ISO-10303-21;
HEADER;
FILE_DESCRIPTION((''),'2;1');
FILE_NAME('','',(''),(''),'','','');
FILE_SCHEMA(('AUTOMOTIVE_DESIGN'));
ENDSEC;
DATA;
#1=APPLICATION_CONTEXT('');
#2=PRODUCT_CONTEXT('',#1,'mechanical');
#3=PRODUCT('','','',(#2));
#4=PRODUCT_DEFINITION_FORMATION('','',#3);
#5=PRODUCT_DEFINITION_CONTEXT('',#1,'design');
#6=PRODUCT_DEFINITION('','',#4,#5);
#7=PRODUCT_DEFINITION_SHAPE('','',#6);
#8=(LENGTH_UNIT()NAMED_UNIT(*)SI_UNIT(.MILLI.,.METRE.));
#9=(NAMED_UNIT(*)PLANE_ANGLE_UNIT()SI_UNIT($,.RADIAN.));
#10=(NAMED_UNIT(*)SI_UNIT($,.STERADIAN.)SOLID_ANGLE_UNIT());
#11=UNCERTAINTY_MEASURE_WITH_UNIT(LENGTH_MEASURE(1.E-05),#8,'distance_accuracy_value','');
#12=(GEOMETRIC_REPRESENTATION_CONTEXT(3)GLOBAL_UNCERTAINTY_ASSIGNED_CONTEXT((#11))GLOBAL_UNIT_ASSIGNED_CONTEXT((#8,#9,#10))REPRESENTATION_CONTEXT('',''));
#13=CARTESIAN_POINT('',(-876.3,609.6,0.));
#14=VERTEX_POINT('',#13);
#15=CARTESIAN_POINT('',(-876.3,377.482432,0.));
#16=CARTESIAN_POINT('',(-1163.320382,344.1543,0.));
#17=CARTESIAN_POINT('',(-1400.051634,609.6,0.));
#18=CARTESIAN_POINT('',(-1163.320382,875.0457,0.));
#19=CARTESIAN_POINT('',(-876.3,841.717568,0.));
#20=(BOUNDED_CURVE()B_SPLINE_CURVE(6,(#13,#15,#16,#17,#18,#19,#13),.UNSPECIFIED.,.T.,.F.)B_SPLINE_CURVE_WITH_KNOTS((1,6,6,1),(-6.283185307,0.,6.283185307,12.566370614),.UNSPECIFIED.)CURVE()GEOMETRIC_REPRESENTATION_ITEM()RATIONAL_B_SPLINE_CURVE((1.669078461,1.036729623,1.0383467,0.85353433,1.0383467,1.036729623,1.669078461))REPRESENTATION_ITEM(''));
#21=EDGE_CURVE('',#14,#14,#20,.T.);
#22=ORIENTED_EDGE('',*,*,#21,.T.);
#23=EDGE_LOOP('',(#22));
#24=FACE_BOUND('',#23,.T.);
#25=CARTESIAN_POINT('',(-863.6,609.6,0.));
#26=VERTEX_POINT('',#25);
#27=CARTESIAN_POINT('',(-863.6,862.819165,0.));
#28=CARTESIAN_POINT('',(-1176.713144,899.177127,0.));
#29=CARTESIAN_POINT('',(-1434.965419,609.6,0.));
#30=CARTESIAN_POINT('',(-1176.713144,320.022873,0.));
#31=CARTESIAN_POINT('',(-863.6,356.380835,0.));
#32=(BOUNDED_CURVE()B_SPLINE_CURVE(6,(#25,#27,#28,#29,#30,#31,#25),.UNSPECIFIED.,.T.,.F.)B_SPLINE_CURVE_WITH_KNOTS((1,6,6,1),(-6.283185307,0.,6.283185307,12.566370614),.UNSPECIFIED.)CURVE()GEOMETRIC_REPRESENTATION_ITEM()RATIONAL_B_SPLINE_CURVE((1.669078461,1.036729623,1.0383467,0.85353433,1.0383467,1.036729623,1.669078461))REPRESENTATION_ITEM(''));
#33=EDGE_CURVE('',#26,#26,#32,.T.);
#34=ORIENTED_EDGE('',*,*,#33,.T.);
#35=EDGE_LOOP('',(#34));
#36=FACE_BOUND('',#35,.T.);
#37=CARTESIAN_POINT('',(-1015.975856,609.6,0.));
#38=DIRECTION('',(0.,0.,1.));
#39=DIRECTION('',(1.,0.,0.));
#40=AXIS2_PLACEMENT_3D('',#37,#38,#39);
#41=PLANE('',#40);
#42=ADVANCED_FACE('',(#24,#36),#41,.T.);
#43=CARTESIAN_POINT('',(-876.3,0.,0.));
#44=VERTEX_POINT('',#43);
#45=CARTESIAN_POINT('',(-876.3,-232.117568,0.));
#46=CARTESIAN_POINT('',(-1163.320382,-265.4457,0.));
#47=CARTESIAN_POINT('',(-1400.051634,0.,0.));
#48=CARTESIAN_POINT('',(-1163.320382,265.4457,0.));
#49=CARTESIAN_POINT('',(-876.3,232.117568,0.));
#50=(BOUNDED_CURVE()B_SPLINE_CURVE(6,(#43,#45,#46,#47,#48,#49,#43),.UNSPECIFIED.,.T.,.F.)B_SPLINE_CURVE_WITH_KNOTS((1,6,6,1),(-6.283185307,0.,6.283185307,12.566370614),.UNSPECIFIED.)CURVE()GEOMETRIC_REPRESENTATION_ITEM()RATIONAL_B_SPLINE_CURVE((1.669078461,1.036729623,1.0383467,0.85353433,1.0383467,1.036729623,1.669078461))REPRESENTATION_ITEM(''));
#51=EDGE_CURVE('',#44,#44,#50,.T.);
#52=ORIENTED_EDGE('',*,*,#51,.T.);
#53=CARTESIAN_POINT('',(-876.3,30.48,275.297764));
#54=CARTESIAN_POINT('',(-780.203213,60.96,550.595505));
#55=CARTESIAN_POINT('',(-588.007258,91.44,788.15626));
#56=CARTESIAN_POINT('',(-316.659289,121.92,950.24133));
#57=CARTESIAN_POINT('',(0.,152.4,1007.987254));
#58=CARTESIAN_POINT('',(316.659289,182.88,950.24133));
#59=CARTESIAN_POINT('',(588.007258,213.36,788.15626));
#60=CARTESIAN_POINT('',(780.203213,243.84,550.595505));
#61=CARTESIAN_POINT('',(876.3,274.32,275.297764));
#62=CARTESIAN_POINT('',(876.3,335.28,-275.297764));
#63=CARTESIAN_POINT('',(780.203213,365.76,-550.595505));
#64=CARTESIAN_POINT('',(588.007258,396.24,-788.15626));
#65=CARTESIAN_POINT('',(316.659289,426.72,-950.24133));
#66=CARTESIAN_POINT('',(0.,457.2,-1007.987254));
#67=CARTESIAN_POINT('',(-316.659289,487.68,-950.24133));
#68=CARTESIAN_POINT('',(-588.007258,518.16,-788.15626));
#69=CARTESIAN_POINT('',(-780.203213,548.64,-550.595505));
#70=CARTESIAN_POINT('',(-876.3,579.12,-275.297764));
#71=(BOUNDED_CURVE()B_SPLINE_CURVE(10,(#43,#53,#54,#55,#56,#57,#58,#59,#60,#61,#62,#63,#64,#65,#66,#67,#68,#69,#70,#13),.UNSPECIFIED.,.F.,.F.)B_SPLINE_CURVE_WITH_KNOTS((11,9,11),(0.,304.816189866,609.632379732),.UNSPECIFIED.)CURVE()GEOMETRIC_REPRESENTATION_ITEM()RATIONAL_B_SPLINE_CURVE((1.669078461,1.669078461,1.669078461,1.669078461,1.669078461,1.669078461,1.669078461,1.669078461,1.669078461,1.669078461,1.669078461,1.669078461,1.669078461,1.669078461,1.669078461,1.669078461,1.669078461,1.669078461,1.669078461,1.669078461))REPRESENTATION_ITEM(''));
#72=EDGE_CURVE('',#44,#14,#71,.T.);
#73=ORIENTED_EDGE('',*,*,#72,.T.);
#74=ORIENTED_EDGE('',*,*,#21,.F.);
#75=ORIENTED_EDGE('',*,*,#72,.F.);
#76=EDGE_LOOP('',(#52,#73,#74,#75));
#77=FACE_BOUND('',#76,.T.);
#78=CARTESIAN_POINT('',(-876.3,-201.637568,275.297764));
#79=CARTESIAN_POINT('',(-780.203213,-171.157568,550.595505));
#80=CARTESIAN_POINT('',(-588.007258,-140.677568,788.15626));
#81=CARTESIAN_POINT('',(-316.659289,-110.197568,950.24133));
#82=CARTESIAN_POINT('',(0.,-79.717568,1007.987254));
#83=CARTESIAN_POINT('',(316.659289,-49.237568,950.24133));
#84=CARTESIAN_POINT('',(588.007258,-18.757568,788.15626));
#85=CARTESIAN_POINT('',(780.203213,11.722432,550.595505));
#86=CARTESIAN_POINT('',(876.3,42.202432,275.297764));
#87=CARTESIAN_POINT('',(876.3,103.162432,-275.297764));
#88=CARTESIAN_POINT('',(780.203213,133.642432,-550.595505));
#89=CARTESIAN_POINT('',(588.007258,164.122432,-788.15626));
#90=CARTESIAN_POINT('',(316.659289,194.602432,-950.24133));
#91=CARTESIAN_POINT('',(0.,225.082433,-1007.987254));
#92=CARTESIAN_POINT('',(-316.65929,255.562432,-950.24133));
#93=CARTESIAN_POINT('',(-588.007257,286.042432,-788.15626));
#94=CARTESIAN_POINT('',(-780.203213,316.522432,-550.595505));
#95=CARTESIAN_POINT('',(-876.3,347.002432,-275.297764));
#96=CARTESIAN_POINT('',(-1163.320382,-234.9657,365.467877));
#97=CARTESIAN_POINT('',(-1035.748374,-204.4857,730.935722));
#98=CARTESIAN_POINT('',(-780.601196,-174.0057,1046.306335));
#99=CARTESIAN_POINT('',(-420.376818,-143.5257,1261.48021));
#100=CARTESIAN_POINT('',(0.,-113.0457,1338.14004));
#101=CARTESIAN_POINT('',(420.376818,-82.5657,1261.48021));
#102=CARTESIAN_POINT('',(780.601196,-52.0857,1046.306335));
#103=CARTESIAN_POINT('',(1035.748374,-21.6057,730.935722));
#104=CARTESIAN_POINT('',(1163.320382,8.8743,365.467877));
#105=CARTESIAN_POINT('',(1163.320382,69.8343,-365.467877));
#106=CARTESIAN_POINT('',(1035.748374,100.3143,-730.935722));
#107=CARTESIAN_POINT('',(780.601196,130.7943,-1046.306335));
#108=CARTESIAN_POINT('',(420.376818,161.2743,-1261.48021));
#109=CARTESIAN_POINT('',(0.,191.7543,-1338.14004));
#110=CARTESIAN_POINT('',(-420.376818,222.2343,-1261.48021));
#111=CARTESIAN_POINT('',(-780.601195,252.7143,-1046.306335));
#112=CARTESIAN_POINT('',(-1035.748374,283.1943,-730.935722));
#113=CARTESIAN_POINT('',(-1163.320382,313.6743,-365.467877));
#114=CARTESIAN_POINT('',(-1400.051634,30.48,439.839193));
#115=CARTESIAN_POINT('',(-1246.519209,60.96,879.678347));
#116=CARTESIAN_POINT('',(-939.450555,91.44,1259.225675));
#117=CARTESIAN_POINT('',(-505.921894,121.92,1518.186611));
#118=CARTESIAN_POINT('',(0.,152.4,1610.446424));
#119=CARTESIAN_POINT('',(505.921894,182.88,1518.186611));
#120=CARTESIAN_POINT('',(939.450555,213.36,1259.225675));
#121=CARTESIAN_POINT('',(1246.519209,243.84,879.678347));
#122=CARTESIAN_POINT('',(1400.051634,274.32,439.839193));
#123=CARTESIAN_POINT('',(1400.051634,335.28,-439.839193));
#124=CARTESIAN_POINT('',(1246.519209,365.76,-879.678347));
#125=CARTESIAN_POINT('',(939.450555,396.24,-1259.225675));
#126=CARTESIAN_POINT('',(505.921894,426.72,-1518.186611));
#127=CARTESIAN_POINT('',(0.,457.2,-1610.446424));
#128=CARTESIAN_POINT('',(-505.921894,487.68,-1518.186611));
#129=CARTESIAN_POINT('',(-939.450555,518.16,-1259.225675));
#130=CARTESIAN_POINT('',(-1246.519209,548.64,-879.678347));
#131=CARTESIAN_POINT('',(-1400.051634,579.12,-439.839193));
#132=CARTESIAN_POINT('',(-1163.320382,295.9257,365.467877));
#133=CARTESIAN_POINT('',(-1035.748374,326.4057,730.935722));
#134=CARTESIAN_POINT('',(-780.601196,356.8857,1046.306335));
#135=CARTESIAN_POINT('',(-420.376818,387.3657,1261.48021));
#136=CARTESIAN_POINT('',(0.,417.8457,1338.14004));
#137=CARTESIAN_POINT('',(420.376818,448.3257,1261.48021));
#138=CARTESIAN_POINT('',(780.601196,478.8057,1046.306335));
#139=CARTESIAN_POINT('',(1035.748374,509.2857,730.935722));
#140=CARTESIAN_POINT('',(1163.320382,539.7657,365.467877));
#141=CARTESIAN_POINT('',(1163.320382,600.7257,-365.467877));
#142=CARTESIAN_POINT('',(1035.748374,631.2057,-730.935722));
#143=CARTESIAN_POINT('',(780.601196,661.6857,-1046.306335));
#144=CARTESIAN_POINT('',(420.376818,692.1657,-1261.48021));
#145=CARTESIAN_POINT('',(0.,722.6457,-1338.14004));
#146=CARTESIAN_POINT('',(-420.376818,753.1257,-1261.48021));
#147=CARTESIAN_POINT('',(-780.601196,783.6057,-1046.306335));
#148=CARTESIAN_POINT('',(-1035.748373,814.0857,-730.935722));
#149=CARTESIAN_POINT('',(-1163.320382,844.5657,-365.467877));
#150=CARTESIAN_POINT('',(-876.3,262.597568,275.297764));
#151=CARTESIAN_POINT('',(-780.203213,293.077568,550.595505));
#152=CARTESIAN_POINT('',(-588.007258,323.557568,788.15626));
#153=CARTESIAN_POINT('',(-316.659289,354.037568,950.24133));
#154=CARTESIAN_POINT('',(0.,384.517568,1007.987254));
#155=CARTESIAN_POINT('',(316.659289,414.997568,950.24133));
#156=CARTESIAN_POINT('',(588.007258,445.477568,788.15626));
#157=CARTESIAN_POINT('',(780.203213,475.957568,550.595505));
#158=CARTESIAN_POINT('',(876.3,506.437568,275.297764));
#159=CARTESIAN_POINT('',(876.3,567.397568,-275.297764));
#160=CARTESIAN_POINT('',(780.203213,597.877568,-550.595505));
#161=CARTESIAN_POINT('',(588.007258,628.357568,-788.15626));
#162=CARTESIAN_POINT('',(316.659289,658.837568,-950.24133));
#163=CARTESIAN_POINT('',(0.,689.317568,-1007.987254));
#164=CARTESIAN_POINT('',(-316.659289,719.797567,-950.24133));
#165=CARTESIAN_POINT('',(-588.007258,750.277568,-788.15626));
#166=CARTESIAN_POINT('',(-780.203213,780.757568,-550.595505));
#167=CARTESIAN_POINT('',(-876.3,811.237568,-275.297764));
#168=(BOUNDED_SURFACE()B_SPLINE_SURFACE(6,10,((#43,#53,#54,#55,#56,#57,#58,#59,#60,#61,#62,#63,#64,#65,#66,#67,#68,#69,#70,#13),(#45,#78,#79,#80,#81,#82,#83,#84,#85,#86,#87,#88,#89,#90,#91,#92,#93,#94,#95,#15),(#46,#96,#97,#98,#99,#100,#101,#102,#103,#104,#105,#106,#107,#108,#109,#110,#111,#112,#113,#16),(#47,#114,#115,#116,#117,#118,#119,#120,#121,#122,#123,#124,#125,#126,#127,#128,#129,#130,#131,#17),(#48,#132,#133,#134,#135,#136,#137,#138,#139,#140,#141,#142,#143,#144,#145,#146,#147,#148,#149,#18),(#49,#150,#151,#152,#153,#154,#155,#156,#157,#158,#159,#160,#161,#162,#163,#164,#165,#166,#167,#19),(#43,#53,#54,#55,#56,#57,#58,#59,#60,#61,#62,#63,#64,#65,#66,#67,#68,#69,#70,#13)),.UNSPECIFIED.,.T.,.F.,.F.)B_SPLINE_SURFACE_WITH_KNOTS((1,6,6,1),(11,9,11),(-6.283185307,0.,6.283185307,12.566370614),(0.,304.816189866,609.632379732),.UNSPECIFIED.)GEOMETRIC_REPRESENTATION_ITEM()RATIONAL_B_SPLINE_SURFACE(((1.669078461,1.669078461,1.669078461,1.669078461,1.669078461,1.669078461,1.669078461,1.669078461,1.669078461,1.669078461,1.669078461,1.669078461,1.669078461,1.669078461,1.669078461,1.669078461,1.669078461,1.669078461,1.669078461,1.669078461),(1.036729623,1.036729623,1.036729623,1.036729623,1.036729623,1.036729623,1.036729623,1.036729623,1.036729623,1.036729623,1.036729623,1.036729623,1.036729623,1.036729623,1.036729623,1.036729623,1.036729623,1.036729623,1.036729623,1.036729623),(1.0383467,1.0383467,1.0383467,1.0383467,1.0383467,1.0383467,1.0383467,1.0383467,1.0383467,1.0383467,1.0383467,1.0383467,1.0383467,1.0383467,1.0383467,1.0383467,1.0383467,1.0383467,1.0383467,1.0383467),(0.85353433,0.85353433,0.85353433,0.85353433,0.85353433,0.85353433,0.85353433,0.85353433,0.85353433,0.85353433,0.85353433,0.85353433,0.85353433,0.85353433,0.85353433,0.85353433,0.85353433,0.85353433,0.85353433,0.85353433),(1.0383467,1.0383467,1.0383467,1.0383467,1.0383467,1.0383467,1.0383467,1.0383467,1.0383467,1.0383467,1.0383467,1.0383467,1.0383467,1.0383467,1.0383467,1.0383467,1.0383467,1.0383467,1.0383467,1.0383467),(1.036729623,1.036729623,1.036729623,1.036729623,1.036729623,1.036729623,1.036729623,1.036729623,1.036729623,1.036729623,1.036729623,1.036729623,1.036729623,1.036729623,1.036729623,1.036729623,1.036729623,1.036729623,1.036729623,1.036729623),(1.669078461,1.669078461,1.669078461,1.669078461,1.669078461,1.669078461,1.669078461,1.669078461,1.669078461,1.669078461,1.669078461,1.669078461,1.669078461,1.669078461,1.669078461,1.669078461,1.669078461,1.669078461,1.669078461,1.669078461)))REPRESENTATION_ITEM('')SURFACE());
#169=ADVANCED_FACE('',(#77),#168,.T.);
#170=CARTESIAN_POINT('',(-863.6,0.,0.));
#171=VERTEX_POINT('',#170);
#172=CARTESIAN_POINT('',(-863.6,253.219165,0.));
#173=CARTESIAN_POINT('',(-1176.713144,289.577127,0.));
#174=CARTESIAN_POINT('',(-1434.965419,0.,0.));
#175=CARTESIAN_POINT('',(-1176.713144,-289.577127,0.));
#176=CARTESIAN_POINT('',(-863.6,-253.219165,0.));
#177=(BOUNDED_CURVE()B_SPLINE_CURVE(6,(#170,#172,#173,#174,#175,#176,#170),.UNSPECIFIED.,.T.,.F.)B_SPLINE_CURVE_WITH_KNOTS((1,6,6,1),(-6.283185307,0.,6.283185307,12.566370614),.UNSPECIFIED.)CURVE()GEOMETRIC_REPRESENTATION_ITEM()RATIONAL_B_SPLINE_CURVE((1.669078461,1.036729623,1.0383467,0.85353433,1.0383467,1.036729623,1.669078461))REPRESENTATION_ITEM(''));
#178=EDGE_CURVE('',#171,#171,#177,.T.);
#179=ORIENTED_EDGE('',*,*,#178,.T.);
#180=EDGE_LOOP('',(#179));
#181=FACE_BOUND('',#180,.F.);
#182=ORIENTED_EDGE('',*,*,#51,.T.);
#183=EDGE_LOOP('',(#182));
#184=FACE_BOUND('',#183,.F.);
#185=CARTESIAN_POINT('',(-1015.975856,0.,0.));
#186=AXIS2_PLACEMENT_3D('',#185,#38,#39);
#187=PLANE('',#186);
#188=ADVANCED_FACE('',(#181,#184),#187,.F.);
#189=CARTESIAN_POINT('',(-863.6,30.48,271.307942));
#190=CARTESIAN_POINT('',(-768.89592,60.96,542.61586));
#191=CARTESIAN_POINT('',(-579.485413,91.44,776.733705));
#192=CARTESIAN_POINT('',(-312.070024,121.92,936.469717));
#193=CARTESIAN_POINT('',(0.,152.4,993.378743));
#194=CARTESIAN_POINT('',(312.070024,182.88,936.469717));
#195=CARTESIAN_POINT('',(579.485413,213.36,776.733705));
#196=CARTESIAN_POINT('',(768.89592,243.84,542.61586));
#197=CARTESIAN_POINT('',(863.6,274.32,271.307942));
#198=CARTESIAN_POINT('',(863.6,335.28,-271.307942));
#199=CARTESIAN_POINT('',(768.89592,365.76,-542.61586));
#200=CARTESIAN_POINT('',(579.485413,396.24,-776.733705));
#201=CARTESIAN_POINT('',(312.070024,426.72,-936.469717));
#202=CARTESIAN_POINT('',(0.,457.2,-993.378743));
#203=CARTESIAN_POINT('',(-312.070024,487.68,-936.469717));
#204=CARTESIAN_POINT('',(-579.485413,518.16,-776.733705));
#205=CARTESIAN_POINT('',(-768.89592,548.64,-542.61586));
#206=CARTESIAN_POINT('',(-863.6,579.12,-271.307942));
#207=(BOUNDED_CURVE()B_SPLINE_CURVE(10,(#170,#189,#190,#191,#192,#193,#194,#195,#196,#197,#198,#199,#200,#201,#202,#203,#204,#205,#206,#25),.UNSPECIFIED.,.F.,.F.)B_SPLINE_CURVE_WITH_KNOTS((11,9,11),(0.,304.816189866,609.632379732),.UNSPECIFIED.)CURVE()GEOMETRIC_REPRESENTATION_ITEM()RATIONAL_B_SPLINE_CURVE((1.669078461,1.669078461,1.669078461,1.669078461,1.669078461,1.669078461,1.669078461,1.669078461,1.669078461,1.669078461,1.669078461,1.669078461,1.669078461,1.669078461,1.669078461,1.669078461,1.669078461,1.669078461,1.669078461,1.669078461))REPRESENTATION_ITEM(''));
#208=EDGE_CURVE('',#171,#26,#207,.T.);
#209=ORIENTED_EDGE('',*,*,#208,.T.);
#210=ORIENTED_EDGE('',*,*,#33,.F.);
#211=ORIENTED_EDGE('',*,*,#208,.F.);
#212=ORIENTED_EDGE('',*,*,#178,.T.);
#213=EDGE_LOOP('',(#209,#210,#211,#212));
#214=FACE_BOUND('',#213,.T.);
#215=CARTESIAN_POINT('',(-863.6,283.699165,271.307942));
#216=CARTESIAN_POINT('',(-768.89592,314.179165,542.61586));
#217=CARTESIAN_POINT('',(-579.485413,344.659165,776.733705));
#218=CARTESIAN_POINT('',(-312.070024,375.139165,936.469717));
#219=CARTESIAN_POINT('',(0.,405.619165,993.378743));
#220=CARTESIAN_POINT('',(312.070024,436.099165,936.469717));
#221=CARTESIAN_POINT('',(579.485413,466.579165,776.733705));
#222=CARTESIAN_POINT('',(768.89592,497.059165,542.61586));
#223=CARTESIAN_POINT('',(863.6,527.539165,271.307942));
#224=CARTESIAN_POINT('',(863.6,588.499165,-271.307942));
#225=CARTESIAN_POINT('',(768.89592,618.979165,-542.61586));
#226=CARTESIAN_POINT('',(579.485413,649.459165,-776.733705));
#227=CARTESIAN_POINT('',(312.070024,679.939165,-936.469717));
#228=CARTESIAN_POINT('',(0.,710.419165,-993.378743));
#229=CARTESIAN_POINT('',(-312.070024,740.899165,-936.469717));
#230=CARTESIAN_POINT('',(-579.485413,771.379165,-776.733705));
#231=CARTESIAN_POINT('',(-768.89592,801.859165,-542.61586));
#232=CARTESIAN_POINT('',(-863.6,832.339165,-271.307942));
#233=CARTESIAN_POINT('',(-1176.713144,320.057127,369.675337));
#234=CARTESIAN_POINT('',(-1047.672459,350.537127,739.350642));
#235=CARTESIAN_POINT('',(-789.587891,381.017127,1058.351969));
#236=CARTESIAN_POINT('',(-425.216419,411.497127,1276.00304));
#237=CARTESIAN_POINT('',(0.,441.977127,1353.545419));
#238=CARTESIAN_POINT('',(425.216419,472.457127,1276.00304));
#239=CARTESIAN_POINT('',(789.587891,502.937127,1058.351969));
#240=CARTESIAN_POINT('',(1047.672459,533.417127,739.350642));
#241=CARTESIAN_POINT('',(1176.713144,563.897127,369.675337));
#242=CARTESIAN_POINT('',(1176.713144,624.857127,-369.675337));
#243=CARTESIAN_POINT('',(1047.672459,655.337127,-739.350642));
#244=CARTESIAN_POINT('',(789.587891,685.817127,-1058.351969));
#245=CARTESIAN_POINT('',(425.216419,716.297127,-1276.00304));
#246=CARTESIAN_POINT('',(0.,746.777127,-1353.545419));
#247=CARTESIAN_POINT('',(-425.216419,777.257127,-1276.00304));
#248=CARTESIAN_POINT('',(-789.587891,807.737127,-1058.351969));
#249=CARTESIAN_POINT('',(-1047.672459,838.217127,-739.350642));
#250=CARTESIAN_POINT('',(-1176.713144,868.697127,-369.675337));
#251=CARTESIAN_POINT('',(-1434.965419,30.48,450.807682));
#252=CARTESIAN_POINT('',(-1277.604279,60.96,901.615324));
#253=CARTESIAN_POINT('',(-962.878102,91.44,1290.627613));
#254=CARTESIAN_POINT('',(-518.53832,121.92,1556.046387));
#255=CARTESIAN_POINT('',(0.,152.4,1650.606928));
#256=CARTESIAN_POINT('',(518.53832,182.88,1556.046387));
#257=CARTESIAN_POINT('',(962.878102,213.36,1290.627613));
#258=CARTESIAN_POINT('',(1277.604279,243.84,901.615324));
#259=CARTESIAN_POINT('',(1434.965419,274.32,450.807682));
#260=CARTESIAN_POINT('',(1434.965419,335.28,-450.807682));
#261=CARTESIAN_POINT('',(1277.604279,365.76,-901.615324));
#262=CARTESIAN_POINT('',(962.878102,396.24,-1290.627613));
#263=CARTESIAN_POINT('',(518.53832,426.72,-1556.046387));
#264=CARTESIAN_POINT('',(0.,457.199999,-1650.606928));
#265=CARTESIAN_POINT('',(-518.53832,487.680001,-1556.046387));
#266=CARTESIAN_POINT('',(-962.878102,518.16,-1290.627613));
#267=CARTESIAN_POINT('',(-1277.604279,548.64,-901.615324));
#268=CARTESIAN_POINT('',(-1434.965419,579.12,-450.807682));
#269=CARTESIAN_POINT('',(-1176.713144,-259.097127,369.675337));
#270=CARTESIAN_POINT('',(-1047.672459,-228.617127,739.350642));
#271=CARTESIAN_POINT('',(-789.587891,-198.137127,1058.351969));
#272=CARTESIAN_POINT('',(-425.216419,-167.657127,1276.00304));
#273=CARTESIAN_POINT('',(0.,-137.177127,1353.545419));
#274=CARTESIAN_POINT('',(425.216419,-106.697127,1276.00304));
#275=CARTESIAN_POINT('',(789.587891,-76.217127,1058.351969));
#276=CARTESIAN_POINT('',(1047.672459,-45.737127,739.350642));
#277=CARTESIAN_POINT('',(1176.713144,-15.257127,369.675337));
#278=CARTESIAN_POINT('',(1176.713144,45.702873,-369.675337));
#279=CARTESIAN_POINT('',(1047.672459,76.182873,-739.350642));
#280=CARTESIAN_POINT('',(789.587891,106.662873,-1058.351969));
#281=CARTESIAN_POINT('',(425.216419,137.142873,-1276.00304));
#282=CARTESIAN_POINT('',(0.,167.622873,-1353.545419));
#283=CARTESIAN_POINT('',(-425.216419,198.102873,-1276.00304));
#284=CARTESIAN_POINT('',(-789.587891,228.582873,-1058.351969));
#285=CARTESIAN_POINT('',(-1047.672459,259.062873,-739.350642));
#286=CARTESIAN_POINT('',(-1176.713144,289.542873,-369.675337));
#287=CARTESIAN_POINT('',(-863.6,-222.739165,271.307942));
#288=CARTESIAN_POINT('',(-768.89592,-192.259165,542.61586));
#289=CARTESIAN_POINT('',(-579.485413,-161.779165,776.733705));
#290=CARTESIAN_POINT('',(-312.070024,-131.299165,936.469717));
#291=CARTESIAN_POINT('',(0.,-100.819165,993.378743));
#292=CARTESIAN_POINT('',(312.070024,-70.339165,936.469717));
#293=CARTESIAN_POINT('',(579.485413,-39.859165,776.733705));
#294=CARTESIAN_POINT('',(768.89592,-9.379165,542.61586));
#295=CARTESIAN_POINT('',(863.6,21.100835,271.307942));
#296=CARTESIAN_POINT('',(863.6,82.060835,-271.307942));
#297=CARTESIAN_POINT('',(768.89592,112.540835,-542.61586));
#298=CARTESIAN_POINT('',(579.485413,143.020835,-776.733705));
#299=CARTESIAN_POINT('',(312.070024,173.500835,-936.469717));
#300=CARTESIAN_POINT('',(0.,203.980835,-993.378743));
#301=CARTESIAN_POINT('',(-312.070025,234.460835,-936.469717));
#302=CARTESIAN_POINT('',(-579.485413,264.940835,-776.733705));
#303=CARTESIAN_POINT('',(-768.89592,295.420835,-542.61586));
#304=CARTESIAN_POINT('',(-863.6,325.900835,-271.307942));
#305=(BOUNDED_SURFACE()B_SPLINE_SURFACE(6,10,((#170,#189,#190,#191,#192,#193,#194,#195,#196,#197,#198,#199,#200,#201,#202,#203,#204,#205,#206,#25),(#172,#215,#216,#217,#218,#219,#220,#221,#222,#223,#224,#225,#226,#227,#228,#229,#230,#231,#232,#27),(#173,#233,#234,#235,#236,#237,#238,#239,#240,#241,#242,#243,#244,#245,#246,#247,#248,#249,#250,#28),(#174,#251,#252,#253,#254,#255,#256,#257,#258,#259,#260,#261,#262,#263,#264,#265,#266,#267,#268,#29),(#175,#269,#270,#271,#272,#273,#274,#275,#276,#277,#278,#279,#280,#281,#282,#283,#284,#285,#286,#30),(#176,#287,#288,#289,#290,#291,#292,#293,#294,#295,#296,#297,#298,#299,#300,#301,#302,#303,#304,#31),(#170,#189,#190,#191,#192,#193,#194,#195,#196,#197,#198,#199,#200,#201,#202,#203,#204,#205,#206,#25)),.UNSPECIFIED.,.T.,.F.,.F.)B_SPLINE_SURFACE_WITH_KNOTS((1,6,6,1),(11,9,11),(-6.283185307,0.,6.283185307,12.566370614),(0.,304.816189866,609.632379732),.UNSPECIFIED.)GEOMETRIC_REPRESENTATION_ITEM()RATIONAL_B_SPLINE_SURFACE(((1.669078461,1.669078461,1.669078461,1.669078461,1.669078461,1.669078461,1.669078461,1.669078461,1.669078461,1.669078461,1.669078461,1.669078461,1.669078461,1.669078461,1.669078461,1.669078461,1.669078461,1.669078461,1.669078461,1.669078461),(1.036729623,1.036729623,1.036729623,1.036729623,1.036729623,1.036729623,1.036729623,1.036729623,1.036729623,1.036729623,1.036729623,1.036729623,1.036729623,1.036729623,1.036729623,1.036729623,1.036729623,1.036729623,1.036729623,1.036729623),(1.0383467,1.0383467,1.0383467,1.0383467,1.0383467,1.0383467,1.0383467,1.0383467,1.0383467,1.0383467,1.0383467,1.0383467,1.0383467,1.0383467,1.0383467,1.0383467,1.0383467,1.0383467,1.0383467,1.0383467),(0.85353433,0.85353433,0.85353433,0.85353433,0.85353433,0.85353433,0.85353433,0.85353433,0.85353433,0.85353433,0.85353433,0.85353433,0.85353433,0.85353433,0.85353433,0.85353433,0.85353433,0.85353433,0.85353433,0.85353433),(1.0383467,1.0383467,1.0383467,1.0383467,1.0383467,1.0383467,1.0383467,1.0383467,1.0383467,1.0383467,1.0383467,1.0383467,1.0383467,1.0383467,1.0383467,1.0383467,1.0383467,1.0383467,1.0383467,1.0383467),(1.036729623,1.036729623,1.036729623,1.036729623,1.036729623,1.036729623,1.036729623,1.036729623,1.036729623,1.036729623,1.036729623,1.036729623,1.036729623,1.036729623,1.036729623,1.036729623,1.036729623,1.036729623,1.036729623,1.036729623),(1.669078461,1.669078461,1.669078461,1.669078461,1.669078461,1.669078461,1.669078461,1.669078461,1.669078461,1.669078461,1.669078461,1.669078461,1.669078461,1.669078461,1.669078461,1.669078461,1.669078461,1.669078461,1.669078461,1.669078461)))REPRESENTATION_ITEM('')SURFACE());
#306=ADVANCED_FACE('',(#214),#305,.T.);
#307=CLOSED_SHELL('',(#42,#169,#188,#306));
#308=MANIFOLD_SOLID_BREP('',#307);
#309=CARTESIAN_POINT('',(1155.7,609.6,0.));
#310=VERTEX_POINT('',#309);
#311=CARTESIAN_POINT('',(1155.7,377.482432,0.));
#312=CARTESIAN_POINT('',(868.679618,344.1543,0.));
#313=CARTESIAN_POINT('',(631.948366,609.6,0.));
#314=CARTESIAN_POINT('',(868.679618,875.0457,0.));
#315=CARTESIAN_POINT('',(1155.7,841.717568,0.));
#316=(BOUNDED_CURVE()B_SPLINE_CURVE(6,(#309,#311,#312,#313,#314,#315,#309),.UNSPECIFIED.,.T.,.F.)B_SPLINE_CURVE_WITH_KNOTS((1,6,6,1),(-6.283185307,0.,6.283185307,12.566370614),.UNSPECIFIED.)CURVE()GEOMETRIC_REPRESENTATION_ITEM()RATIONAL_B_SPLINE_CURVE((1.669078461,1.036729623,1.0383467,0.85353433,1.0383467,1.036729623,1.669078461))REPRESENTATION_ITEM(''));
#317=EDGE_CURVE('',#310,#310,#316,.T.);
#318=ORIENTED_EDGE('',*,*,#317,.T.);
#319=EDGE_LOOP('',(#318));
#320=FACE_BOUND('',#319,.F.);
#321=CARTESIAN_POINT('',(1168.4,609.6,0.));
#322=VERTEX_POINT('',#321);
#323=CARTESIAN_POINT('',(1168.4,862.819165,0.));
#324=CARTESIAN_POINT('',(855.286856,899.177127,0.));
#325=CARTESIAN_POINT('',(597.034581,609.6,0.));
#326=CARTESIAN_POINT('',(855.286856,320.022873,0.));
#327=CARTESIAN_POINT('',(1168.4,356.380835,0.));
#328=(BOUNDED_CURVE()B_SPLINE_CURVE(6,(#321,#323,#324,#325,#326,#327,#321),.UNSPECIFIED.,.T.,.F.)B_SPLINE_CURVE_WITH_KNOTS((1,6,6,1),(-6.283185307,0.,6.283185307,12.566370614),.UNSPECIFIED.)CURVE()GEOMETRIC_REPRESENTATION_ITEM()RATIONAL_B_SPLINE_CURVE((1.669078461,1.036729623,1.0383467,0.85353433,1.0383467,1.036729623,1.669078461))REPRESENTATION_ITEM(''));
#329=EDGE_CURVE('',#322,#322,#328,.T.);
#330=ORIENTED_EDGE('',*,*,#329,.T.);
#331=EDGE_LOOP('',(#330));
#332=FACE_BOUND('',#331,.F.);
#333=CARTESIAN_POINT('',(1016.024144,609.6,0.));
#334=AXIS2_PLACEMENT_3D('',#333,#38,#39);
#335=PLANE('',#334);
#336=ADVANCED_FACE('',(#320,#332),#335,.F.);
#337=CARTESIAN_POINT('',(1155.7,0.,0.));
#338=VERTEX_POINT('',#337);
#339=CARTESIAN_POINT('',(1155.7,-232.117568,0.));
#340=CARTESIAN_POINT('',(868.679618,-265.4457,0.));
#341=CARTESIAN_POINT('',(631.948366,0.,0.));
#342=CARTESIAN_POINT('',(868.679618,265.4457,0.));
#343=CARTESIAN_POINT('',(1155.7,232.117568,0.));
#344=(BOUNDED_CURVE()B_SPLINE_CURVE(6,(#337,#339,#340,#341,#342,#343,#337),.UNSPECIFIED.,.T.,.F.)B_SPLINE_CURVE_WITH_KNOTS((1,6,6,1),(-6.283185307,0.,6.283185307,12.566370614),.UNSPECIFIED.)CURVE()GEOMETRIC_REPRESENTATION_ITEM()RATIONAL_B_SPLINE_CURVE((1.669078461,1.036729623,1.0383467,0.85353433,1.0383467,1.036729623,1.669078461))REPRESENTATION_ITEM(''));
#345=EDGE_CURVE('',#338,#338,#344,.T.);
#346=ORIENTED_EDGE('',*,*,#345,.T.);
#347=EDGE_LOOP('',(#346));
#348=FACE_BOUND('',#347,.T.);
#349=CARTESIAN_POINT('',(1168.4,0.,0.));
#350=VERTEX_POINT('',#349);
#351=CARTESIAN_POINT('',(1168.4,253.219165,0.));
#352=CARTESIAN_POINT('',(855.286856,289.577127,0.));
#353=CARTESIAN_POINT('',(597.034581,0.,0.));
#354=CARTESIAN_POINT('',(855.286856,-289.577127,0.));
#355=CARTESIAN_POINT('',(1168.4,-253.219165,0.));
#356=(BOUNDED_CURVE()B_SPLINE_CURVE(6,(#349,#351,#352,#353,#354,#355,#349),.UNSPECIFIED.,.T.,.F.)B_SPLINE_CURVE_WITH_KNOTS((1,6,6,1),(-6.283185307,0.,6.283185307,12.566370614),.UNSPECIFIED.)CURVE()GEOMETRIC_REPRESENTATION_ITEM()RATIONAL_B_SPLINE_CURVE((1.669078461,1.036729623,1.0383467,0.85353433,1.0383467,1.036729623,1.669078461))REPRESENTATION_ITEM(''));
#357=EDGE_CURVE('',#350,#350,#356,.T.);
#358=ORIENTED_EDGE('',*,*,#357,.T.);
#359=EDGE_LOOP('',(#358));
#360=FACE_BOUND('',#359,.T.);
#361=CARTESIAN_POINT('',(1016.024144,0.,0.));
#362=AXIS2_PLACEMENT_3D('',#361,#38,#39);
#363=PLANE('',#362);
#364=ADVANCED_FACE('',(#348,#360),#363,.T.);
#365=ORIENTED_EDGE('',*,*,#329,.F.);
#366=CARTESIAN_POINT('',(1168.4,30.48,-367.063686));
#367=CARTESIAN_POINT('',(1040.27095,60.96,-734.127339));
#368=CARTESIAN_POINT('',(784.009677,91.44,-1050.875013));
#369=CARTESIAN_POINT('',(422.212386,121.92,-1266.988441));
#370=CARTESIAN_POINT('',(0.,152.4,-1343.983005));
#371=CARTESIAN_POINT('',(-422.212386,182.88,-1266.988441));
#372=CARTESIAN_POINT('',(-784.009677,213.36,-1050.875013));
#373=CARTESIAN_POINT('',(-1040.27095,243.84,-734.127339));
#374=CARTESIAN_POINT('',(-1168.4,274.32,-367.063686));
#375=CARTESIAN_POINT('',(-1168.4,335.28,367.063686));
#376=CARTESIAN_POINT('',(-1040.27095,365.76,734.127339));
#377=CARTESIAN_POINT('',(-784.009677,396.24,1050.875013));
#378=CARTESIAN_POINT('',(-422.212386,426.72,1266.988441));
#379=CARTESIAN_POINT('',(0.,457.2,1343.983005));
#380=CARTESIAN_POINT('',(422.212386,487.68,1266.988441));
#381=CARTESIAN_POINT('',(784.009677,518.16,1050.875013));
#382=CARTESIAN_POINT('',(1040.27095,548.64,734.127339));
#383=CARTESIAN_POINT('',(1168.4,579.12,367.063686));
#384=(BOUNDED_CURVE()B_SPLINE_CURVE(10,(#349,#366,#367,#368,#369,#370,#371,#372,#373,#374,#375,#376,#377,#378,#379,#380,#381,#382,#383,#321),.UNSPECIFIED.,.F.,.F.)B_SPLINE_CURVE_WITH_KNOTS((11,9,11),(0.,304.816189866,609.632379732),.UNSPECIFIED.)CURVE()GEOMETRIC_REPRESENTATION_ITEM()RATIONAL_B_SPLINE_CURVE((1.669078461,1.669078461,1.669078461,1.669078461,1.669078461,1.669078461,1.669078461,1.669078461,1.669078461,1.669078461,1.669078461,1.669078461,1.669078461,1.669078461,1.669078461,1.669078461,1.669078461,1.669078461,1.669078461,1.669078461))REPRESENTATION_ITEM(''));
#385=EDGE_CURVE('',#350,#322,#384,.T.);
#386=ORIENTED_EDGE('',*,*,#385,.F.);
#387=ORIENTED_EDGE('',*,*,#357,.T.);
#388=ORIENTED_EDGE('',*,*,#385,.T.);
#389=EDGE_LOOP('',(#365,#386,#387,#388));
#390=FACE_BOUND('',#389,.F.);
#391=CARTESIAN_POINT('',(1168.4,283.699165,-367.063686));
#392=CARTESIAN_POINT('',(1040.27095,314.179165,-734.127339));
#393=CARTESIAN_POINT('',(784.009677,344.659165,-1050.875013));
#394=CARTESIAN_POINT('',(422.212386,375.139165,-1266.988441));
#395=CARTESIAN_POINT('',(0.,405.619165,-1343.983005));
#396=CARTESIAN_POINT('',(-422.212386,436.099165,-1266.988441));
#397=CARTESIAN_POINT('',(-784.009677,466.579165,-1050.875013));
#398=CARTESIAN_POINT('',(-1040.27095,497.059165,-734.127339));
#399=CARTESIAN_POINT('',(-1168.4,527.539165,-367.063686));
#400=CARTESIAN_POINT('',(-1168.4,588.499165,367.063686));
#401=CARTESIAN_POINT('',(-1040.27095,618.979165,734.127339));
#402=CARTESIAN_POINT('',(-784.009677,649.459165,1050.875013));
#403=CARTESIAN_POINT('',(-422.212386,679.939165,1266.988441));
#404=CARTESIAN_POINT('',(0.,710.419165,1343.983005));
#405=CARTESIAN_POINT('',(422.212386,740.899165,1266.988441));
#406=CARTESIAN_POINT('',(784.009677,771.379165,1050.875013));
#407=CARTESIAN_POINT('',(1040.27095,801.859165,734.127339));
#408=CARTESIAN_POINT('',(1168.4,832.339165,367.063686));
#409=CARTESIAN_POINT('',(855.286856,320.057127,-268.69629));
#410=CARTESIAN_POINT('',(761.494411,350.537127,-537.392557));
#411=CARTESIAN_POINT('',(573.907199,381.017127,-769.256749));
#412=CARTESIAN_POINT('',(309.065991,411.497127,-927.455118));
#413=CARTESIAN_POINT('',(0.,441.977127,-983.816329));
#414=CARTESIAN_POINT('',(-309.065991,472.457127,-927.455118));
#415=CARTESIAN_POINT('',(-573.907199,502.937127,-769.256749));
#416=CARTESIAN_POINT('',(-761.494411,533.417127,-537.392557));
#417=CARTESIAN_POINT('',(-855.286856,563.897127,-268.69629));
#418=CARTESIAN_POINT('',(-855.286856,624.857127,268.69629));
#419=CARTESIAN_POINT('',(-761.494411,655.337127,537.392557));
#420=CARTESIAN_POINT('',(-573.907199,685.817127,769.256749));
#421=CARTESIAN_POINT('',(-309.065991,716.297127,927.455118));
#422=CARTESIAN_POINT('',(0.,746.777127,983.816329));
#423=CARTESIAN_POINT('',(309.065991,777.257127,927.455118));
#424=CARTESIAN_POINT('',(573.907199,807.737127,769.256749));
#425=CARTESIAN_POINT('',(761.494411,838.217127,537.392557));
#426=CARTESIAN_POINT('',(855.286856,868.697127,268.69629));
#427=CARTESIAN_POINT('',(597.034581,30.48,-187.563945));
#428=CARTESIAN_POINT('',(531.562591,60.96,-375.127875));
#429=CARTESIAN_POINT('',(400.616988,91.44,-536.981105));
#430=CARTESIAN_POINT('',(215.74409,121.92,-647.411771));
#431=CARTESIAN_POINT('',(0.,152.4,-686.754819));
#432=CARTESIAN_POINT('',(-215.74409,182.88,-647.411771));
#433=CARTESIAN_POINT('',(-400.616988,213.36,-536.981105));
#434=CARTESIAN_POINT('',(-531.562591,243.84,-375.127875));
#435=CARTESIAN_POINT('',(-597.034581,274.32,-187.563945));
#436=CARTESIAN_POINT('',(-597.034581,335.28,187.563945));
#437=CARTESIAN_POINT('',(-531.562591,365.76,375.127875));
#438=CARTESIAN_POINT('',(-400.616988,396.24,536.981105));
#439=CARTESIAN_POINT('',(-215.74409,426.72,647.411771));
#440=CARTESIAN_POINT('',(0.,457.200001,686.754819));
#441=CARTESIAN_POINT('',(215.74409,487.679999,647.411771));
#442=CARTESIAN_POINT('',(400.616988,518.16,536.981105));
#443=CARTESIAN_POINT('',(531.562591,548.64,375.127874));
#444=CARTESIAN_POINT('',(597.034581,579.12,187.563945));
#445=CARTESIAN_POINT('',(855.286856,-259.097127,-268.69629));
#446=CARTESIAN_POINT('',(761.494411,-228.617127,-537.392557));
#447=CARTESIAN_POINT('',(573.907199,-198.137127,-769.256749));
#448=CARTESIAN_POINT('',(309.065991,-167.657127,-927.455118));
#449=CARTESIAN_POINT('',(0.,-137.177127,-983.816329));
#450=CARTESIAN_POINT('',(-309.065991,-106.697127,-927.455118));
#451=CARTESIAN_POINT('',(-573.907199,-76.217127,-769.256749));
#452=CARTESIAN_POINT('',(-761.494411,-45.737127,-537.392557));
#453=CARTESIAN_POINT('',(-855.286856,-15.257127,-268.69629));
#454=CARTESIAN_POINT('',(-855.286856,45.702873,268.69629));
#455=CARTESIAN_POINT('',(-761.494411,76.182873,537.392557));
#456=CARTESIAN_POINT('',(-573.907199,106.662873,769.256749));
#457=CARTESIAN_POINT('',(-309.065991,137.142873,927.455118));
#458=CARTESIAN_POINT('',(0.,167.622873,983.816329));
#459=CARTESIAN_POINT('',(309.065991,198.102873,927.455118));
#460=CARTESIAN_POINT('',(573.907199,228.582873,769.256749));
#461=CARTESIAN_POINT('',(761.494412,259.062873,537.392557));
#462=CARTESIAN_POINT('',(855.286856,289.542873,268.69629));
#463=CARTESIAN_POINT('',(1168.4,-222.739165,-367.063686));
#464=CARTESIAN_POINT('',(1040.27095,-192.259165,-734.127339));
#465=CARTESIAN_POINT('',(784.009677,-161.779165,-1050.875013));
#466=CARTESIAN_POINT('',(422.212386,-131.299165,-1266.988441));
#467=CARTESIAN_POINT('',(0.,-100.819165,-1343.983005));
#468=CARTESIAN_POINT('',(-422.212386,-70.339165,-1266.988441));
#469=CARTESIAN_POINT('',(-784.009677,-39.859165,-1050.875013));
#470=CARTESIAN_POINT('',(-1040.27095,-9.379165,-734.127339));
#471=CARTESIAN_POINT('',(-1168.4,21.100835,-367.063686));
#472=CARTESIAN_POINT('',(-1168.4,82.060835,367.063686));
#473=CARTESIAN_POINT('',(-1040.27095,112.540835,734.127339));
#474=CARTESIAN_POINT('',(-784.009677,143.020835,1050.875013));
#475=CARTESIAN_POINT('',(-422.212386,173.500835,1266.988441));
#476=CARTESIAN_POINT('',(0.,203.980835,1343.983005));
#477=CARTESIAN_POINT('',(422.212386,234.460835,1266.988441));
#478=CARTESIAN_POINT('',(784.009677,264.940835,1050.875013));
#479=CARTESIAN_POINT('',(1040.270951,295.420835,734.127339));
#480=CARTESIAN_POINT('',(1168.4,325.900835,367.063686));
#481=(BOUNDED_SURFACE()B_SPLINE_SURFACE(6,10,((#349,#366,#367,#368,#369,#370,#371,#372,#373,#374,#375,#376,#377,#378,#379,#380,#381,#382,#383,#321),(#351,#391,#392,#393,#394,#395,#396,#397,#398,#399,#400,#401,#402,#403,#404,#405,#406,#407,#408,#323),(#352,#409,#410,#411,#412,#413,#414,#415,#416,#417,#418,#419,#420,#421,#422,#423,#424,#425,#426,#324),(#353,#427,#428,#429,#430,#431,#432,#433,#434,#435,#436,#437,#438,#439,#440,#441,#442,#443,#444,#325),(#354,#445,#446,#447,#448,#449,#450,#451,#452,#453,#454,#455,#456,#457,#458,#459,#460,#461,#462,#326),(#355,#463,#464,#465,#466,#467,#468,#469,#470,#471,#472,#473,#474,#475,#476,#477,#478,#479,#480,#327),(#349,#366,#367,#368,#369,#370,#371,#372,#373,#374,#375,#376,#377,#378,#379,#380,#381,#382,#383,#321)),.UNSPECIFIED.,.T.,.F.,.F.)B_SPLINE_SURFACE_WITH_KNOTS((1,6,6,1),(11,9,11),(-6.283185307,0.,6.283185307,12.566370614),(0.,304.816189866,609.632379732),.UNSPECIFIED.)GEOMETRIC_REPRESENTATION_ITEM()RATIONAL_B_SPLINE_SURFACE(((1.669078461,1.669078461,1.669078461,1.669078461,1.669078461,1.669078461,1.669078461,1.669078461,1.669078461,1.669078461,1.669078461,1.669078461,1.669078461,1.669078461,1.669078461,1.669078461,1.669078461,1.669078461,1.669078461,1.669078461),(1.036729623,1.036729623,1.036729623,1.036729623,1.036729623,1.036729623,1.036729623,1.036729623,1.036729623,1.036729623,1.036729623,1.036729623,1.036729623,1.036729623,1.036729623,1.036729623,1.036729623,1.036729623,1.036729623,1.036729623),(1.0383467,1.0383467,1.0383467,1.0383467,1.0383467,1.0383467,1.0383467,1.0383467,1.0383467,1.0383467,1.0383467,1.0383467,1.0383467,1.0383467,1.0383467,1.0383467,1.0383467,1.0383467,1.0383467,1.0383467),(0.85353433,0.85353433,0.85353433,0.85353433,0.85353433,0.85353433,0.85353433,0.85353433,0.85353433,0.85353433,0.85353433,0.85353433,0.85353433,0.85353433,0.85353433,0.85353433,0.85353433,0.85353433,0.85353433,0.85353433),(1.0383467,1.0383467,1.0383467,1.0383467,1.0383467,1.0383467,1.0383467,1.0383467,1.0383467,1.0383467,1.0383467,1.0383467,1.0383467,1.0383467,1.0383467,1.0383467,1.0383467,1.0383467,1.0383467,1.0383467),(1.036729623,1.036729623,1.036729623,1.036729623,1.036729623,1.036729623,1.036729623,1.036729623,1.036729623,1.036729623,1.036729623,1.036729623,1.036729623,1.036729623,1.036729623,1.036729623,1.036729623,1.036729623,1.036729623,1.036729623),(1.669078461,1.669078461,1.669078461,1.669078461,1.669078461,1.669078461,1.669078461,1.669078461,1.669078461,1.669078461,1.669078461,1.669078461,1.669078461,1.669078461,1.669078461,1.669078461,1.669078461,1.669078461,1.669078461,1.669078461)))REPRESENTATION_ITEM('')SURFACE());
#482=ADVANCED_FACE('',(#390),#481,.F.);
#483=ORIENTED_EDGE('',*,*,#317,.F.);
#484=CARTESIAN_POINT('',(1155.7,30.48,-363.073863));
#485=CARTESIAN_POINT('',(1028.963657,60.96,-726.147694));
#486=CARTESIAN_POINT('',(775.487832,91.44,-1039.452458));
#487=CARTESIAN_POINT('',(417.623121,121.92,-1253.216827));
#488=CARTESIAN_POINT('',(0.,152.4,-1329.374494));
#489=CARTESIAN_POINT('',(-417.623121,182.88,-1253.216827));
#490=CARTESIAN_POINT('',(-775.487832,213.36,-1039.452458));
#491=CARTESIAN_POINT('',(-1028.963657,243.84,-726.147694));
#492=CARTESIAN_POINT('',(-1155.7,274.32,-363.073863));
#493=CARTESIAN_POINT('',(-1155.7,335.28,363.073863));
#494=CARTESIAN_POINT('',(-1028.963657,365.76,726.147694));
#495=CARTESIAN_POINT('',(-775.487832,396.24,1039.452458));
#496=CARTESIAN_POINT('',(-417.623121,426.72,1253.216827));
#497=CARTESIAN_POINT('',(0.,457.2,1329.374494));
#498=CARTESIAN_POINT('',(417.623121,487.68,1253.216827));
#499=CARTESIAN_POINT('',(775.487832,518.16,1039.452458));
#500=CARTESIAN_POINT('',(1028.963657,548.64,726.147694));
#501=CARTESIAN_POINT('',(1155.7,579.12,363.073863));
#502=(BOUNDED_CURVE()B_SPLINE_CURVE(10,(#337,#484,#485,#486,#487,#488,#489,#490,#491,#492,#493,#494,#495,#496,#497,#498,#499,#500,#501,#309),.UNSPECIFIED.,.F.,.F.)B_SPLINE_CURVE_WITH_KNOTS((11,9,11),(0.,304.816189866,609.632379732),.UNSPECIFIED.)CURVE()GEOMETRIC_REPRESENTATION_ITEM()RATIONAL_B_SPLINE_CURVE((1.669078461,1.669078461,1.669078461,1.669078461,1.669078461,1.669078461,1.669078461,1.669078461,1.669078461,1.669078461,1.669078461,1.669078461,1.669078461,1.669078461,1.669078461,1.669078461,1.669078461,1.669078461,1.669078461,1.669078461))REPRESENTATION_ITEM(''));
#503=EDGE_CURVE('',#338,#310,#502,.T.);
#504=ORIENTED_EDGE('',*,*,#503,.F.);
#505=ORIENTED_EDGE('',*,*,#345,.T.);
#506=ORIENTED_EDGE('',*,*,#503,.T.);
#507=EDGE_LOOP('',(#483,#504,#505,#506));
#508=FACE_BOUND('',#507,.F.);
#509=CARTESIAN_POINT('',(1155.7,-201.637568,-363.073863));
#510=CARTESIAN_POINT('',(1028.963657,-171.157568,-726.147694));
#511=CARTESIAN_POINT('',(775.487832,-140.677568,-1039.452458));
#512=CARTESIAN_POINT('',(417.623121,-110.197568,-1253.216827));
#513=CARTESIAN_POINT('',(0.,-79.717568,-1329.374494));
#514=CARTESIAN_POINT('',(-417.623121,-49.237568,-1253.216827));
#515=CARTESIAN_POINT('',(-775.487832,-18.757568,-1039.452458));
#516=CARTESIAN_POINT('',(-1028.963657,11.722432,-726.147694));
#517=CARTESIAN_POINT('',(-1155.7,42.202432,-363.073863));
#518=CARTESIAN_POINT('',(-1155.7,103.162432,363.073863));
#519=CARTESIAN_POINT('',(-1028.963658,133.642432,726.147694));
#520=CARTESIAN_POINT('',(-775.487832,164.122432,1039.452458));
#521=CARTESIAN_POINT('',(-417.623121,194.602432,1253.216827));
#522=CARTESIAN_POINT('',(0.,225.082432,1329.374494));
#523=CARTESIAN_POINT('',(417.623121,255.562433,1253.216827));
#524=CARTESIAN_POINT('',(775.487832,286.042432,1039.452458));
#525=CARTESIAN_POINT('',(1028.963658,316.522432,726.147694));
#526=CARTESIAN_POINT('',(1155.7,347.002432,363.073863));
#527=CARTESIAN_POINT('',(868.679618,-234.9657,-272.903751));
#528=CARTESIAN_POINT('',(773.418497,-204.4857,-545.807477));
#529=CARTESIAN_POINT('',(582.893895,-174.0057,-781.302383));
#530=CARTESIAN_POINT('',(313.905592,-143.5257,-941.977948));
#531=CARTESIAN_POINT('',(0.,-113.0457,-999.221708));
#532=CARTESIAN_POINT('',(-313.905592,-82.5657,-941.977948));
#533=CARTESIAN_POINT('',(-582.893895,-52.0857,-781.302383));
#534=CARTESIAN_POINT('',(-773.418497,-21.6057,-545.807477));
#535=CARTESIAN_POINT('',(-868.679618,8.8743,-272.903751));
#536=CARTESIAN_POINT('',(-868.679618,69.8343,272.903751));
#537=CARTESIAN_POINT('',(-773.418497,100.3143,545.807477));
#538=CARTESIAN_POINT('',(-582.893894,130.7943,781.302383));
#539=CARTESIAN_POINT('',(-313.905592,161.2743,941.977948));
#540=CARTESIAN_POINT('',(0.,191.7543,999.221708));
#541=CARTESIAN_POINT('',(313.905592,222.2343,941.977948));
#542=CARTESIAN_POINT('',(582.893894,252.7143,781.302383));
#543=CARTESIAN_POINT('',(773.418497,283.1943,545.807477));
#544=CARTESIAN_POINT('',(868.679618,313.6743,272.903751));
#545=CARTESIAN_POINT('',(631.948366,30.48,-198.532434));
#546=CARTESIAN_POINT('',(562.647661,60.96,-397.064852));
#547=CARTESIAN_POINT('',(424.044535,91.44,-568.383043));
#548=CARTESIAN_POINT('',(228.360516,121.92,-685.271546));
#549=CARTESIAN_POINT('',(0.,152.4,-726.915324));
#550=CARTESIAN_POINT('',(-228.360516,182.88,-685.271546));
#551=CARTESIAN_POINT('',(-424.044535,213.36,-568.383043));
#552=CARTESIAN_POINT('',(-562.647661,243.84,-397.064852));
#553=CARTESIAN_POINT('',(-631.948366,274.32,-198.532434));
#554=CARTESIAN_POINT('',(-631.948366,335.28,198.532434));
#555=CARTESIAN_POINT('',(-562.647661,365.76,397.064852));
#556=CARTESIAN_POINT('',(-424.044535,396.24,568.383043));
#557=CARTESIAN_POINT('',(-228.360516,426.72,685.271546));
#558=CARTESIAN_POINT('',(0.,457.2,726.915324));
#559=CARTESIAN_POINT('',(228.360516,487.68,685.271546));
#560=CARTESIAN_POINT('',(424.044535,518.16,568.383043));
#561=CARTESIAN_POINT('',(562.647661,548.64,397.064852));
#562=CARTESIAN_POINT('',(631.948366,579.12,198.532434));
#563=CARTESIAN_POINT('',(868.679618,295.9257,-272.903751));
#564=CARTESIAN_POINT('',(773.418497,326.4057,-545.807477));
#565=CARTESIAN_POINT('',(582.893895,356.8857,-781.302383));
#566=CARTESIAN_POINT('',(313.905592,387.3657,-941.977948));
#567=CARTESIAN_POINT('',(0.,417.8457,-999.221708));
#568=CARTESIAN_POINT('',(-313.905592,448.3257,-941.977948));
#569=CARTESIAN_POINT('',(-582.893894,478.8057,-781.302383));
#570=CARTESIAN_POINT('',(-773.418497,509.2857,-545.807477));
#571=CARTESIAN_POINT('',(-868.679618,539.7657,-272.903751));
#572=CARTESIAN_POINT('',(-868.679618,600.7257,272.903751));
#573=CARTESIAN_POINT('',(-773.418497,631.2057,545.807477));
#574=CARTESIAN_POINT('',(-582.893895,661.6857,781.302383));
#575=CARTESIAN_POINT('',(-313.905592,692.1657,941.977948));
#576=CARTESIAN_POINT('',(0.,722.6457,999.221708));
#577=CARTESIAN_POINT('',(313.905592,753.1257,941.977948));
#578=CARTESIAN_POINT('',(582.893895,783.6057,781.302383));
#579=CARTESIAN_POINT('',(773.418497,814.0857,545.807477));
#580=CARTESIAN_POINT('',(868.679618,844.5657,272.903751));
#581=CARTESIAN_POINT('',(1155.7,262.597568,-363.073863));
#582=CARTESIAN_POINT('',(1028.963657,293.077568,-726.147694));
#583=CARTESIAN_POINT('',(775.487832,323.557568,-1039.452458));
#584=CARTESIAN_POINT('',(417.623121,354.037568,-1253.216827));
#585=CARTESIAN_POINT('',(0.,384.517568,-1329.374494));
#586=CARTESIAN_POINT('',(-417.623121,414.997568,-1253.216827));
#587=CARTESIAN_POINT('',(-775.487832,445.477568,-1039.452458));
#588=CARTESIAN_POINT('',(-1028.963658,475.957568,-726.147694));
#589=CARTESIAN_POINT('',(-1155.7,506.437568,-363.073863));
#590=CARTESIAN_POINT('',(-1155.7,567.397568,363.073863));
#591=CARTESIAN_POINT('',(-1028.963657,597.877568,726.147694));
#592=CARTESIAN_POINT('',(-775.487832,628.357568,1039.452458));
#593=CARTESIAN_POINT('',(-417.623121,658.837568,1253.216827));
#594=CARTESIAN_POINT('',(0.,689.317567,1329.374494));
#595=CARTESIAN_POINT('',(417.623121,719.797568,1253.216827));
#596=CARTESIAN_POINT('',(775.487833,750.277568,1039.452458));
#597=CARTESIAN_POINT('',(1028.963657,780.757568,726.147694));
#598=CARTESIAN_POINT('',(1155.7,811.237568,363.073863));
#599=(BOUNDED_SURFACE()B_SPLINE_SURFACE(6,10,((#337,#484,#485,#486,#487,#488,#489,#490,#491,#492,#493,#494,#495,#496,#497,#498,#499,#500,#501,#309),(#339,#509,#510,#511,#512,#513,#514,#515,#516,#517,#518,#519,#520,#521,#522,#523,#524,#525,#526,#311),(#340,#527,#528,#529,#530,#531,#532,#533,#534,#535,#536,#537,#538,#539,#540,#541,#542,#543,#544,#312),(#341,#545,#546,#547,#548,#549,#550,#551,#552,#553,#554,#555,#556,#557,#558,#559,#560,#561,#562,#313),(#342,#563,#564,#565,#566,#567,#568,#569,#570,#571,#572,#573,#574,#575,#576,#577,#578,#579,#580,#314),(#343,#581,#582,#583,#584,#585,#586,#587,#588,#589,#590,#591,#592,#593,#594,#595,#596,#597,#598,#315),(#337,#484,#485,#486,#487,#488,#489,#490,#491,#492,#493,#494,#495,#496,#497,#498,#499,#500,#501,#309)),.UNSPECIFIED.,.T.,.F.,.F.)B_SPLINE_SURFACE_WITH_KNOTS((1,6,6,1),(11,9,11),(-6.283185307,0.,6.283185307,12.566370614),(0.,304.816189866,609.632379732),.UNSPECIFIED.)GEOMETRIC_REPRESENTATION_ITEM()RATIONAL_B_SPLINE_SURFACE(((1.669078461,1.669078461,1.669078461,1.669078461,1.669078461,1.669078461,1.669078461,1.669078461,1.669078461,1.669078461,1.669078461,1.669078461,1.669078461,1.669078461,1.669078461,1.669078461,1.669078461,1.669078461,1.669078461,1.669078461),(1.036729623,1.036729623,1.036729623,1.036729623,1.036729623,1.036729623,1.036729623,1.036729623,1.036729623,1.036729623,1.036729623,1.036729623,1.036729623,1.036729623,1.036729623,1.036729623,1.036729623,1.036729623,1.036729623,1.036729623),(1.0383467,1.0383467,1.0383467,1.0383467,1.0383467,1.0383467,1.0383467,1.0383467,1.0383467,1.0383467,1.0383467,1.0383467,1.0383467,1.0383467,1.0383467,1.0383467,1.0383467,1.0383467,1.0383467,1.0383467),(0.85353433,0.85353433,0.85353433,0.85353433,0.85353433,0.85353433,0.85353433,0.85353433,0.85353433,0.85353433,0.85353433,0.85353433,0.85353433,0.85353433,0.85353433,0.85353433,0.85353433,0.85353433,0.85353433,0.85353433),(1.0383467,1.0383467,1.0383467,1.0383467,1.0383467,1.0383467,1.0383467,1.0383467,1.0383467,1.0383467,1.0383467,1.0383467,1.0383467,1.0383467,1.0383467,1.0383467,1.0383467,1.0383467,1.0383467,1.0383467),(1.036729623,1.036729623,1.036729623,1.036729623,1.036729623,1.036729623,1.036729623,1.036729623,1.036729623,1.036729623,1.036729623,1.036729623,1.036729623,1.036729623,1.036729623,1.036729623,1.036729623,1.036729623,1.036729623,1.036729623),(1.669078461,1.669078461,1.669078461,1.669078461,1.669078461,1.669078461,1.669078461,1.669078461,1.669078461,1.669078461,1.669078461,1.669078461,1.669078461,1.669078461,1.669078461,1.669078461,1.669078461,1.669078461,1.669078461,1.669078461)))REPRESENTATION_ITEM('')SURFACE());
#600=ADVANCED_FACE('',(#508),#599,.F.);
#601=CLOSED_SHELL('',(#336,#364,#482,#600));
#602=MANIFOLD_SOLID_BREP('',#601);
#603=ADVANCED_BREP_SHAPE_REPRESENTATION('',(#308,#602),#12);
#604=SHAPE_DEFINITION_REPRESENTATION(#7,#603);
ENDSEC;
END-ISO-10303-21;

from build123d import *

# Parameters (mm, degrees)
SWEEP1_PITCH       = 609.6
SWEEP1_HEIGHT      = 609.6
SWEEP1_RADIUS      = 1016
SWEEP1_START_ANGLE = 90
SKETCH4_R          = 152.4
SKETCH4_R_2        = 139.7
SWEEP4_PITCH       = 609.6
SWEEP4_HEIGHT      = 609.6
SWEEP4_RADIUS      = 1016
SWEEP4_START_ANGLE = -90
SKETCH5_R          = 152.4
SKETCH5_R_2        = 139.7


with BuildPart() as part:
    # Sweep1: sweep along a helix
    with BuildLine() as sweep1_path:
        add(Helix(SWEEP1_PITCH, SWEEP1_HEIGHT, SWEEP1_RADIUS, center=(0, 0, 0), direction=(0, 1, 0), mode=Mode.PRIVATE).rotate(Axis((0, 0, 0), (0, 1, 0)), SWEEP1_START_ANGLE))
    # Sketch4 → Sweep1 (sweep)
    with BuildSketch(Plane.XY):
        with Locations((1016, 0)):
            Circle(SKETCH4_R)
        with Locations((1016, 0)):
            Circle(SKETCH4_R_2, mode=Mode.SUBTRACT)
    sweep(path=sweep1_path.line, is_frenet=True)


with BuildPart() as body_2:
    # Sweep4: sweep along a helix
    with BuildLine() as sweep4_path:
        add(Helix(SWEEP4_PITCH, SWEEP4_HEIGHT, SWEEP4_RADIUS, center=(0, 0, 0), direction=(0, 1, 0), mode=Mode.PRIVATE).rotate(Axis((0, 0, 0), (0, 1, 0)), SWEEP4_START_ANGLE))
    # Sketch5 → Sweep4 (sweep)
    with BuildSketch(Plane.XY):
        with Locations((-1016, 0)):
            Circle(SKETCH5_R)
        with Locations((-1016, 0)):
            Circle(SKETCH5_R_2, mode=Mode.SUBTRACT)
    sweep(path=sweep4_path.line, is_frenet=True)


solid = Compound([part.part, body_2.part])
